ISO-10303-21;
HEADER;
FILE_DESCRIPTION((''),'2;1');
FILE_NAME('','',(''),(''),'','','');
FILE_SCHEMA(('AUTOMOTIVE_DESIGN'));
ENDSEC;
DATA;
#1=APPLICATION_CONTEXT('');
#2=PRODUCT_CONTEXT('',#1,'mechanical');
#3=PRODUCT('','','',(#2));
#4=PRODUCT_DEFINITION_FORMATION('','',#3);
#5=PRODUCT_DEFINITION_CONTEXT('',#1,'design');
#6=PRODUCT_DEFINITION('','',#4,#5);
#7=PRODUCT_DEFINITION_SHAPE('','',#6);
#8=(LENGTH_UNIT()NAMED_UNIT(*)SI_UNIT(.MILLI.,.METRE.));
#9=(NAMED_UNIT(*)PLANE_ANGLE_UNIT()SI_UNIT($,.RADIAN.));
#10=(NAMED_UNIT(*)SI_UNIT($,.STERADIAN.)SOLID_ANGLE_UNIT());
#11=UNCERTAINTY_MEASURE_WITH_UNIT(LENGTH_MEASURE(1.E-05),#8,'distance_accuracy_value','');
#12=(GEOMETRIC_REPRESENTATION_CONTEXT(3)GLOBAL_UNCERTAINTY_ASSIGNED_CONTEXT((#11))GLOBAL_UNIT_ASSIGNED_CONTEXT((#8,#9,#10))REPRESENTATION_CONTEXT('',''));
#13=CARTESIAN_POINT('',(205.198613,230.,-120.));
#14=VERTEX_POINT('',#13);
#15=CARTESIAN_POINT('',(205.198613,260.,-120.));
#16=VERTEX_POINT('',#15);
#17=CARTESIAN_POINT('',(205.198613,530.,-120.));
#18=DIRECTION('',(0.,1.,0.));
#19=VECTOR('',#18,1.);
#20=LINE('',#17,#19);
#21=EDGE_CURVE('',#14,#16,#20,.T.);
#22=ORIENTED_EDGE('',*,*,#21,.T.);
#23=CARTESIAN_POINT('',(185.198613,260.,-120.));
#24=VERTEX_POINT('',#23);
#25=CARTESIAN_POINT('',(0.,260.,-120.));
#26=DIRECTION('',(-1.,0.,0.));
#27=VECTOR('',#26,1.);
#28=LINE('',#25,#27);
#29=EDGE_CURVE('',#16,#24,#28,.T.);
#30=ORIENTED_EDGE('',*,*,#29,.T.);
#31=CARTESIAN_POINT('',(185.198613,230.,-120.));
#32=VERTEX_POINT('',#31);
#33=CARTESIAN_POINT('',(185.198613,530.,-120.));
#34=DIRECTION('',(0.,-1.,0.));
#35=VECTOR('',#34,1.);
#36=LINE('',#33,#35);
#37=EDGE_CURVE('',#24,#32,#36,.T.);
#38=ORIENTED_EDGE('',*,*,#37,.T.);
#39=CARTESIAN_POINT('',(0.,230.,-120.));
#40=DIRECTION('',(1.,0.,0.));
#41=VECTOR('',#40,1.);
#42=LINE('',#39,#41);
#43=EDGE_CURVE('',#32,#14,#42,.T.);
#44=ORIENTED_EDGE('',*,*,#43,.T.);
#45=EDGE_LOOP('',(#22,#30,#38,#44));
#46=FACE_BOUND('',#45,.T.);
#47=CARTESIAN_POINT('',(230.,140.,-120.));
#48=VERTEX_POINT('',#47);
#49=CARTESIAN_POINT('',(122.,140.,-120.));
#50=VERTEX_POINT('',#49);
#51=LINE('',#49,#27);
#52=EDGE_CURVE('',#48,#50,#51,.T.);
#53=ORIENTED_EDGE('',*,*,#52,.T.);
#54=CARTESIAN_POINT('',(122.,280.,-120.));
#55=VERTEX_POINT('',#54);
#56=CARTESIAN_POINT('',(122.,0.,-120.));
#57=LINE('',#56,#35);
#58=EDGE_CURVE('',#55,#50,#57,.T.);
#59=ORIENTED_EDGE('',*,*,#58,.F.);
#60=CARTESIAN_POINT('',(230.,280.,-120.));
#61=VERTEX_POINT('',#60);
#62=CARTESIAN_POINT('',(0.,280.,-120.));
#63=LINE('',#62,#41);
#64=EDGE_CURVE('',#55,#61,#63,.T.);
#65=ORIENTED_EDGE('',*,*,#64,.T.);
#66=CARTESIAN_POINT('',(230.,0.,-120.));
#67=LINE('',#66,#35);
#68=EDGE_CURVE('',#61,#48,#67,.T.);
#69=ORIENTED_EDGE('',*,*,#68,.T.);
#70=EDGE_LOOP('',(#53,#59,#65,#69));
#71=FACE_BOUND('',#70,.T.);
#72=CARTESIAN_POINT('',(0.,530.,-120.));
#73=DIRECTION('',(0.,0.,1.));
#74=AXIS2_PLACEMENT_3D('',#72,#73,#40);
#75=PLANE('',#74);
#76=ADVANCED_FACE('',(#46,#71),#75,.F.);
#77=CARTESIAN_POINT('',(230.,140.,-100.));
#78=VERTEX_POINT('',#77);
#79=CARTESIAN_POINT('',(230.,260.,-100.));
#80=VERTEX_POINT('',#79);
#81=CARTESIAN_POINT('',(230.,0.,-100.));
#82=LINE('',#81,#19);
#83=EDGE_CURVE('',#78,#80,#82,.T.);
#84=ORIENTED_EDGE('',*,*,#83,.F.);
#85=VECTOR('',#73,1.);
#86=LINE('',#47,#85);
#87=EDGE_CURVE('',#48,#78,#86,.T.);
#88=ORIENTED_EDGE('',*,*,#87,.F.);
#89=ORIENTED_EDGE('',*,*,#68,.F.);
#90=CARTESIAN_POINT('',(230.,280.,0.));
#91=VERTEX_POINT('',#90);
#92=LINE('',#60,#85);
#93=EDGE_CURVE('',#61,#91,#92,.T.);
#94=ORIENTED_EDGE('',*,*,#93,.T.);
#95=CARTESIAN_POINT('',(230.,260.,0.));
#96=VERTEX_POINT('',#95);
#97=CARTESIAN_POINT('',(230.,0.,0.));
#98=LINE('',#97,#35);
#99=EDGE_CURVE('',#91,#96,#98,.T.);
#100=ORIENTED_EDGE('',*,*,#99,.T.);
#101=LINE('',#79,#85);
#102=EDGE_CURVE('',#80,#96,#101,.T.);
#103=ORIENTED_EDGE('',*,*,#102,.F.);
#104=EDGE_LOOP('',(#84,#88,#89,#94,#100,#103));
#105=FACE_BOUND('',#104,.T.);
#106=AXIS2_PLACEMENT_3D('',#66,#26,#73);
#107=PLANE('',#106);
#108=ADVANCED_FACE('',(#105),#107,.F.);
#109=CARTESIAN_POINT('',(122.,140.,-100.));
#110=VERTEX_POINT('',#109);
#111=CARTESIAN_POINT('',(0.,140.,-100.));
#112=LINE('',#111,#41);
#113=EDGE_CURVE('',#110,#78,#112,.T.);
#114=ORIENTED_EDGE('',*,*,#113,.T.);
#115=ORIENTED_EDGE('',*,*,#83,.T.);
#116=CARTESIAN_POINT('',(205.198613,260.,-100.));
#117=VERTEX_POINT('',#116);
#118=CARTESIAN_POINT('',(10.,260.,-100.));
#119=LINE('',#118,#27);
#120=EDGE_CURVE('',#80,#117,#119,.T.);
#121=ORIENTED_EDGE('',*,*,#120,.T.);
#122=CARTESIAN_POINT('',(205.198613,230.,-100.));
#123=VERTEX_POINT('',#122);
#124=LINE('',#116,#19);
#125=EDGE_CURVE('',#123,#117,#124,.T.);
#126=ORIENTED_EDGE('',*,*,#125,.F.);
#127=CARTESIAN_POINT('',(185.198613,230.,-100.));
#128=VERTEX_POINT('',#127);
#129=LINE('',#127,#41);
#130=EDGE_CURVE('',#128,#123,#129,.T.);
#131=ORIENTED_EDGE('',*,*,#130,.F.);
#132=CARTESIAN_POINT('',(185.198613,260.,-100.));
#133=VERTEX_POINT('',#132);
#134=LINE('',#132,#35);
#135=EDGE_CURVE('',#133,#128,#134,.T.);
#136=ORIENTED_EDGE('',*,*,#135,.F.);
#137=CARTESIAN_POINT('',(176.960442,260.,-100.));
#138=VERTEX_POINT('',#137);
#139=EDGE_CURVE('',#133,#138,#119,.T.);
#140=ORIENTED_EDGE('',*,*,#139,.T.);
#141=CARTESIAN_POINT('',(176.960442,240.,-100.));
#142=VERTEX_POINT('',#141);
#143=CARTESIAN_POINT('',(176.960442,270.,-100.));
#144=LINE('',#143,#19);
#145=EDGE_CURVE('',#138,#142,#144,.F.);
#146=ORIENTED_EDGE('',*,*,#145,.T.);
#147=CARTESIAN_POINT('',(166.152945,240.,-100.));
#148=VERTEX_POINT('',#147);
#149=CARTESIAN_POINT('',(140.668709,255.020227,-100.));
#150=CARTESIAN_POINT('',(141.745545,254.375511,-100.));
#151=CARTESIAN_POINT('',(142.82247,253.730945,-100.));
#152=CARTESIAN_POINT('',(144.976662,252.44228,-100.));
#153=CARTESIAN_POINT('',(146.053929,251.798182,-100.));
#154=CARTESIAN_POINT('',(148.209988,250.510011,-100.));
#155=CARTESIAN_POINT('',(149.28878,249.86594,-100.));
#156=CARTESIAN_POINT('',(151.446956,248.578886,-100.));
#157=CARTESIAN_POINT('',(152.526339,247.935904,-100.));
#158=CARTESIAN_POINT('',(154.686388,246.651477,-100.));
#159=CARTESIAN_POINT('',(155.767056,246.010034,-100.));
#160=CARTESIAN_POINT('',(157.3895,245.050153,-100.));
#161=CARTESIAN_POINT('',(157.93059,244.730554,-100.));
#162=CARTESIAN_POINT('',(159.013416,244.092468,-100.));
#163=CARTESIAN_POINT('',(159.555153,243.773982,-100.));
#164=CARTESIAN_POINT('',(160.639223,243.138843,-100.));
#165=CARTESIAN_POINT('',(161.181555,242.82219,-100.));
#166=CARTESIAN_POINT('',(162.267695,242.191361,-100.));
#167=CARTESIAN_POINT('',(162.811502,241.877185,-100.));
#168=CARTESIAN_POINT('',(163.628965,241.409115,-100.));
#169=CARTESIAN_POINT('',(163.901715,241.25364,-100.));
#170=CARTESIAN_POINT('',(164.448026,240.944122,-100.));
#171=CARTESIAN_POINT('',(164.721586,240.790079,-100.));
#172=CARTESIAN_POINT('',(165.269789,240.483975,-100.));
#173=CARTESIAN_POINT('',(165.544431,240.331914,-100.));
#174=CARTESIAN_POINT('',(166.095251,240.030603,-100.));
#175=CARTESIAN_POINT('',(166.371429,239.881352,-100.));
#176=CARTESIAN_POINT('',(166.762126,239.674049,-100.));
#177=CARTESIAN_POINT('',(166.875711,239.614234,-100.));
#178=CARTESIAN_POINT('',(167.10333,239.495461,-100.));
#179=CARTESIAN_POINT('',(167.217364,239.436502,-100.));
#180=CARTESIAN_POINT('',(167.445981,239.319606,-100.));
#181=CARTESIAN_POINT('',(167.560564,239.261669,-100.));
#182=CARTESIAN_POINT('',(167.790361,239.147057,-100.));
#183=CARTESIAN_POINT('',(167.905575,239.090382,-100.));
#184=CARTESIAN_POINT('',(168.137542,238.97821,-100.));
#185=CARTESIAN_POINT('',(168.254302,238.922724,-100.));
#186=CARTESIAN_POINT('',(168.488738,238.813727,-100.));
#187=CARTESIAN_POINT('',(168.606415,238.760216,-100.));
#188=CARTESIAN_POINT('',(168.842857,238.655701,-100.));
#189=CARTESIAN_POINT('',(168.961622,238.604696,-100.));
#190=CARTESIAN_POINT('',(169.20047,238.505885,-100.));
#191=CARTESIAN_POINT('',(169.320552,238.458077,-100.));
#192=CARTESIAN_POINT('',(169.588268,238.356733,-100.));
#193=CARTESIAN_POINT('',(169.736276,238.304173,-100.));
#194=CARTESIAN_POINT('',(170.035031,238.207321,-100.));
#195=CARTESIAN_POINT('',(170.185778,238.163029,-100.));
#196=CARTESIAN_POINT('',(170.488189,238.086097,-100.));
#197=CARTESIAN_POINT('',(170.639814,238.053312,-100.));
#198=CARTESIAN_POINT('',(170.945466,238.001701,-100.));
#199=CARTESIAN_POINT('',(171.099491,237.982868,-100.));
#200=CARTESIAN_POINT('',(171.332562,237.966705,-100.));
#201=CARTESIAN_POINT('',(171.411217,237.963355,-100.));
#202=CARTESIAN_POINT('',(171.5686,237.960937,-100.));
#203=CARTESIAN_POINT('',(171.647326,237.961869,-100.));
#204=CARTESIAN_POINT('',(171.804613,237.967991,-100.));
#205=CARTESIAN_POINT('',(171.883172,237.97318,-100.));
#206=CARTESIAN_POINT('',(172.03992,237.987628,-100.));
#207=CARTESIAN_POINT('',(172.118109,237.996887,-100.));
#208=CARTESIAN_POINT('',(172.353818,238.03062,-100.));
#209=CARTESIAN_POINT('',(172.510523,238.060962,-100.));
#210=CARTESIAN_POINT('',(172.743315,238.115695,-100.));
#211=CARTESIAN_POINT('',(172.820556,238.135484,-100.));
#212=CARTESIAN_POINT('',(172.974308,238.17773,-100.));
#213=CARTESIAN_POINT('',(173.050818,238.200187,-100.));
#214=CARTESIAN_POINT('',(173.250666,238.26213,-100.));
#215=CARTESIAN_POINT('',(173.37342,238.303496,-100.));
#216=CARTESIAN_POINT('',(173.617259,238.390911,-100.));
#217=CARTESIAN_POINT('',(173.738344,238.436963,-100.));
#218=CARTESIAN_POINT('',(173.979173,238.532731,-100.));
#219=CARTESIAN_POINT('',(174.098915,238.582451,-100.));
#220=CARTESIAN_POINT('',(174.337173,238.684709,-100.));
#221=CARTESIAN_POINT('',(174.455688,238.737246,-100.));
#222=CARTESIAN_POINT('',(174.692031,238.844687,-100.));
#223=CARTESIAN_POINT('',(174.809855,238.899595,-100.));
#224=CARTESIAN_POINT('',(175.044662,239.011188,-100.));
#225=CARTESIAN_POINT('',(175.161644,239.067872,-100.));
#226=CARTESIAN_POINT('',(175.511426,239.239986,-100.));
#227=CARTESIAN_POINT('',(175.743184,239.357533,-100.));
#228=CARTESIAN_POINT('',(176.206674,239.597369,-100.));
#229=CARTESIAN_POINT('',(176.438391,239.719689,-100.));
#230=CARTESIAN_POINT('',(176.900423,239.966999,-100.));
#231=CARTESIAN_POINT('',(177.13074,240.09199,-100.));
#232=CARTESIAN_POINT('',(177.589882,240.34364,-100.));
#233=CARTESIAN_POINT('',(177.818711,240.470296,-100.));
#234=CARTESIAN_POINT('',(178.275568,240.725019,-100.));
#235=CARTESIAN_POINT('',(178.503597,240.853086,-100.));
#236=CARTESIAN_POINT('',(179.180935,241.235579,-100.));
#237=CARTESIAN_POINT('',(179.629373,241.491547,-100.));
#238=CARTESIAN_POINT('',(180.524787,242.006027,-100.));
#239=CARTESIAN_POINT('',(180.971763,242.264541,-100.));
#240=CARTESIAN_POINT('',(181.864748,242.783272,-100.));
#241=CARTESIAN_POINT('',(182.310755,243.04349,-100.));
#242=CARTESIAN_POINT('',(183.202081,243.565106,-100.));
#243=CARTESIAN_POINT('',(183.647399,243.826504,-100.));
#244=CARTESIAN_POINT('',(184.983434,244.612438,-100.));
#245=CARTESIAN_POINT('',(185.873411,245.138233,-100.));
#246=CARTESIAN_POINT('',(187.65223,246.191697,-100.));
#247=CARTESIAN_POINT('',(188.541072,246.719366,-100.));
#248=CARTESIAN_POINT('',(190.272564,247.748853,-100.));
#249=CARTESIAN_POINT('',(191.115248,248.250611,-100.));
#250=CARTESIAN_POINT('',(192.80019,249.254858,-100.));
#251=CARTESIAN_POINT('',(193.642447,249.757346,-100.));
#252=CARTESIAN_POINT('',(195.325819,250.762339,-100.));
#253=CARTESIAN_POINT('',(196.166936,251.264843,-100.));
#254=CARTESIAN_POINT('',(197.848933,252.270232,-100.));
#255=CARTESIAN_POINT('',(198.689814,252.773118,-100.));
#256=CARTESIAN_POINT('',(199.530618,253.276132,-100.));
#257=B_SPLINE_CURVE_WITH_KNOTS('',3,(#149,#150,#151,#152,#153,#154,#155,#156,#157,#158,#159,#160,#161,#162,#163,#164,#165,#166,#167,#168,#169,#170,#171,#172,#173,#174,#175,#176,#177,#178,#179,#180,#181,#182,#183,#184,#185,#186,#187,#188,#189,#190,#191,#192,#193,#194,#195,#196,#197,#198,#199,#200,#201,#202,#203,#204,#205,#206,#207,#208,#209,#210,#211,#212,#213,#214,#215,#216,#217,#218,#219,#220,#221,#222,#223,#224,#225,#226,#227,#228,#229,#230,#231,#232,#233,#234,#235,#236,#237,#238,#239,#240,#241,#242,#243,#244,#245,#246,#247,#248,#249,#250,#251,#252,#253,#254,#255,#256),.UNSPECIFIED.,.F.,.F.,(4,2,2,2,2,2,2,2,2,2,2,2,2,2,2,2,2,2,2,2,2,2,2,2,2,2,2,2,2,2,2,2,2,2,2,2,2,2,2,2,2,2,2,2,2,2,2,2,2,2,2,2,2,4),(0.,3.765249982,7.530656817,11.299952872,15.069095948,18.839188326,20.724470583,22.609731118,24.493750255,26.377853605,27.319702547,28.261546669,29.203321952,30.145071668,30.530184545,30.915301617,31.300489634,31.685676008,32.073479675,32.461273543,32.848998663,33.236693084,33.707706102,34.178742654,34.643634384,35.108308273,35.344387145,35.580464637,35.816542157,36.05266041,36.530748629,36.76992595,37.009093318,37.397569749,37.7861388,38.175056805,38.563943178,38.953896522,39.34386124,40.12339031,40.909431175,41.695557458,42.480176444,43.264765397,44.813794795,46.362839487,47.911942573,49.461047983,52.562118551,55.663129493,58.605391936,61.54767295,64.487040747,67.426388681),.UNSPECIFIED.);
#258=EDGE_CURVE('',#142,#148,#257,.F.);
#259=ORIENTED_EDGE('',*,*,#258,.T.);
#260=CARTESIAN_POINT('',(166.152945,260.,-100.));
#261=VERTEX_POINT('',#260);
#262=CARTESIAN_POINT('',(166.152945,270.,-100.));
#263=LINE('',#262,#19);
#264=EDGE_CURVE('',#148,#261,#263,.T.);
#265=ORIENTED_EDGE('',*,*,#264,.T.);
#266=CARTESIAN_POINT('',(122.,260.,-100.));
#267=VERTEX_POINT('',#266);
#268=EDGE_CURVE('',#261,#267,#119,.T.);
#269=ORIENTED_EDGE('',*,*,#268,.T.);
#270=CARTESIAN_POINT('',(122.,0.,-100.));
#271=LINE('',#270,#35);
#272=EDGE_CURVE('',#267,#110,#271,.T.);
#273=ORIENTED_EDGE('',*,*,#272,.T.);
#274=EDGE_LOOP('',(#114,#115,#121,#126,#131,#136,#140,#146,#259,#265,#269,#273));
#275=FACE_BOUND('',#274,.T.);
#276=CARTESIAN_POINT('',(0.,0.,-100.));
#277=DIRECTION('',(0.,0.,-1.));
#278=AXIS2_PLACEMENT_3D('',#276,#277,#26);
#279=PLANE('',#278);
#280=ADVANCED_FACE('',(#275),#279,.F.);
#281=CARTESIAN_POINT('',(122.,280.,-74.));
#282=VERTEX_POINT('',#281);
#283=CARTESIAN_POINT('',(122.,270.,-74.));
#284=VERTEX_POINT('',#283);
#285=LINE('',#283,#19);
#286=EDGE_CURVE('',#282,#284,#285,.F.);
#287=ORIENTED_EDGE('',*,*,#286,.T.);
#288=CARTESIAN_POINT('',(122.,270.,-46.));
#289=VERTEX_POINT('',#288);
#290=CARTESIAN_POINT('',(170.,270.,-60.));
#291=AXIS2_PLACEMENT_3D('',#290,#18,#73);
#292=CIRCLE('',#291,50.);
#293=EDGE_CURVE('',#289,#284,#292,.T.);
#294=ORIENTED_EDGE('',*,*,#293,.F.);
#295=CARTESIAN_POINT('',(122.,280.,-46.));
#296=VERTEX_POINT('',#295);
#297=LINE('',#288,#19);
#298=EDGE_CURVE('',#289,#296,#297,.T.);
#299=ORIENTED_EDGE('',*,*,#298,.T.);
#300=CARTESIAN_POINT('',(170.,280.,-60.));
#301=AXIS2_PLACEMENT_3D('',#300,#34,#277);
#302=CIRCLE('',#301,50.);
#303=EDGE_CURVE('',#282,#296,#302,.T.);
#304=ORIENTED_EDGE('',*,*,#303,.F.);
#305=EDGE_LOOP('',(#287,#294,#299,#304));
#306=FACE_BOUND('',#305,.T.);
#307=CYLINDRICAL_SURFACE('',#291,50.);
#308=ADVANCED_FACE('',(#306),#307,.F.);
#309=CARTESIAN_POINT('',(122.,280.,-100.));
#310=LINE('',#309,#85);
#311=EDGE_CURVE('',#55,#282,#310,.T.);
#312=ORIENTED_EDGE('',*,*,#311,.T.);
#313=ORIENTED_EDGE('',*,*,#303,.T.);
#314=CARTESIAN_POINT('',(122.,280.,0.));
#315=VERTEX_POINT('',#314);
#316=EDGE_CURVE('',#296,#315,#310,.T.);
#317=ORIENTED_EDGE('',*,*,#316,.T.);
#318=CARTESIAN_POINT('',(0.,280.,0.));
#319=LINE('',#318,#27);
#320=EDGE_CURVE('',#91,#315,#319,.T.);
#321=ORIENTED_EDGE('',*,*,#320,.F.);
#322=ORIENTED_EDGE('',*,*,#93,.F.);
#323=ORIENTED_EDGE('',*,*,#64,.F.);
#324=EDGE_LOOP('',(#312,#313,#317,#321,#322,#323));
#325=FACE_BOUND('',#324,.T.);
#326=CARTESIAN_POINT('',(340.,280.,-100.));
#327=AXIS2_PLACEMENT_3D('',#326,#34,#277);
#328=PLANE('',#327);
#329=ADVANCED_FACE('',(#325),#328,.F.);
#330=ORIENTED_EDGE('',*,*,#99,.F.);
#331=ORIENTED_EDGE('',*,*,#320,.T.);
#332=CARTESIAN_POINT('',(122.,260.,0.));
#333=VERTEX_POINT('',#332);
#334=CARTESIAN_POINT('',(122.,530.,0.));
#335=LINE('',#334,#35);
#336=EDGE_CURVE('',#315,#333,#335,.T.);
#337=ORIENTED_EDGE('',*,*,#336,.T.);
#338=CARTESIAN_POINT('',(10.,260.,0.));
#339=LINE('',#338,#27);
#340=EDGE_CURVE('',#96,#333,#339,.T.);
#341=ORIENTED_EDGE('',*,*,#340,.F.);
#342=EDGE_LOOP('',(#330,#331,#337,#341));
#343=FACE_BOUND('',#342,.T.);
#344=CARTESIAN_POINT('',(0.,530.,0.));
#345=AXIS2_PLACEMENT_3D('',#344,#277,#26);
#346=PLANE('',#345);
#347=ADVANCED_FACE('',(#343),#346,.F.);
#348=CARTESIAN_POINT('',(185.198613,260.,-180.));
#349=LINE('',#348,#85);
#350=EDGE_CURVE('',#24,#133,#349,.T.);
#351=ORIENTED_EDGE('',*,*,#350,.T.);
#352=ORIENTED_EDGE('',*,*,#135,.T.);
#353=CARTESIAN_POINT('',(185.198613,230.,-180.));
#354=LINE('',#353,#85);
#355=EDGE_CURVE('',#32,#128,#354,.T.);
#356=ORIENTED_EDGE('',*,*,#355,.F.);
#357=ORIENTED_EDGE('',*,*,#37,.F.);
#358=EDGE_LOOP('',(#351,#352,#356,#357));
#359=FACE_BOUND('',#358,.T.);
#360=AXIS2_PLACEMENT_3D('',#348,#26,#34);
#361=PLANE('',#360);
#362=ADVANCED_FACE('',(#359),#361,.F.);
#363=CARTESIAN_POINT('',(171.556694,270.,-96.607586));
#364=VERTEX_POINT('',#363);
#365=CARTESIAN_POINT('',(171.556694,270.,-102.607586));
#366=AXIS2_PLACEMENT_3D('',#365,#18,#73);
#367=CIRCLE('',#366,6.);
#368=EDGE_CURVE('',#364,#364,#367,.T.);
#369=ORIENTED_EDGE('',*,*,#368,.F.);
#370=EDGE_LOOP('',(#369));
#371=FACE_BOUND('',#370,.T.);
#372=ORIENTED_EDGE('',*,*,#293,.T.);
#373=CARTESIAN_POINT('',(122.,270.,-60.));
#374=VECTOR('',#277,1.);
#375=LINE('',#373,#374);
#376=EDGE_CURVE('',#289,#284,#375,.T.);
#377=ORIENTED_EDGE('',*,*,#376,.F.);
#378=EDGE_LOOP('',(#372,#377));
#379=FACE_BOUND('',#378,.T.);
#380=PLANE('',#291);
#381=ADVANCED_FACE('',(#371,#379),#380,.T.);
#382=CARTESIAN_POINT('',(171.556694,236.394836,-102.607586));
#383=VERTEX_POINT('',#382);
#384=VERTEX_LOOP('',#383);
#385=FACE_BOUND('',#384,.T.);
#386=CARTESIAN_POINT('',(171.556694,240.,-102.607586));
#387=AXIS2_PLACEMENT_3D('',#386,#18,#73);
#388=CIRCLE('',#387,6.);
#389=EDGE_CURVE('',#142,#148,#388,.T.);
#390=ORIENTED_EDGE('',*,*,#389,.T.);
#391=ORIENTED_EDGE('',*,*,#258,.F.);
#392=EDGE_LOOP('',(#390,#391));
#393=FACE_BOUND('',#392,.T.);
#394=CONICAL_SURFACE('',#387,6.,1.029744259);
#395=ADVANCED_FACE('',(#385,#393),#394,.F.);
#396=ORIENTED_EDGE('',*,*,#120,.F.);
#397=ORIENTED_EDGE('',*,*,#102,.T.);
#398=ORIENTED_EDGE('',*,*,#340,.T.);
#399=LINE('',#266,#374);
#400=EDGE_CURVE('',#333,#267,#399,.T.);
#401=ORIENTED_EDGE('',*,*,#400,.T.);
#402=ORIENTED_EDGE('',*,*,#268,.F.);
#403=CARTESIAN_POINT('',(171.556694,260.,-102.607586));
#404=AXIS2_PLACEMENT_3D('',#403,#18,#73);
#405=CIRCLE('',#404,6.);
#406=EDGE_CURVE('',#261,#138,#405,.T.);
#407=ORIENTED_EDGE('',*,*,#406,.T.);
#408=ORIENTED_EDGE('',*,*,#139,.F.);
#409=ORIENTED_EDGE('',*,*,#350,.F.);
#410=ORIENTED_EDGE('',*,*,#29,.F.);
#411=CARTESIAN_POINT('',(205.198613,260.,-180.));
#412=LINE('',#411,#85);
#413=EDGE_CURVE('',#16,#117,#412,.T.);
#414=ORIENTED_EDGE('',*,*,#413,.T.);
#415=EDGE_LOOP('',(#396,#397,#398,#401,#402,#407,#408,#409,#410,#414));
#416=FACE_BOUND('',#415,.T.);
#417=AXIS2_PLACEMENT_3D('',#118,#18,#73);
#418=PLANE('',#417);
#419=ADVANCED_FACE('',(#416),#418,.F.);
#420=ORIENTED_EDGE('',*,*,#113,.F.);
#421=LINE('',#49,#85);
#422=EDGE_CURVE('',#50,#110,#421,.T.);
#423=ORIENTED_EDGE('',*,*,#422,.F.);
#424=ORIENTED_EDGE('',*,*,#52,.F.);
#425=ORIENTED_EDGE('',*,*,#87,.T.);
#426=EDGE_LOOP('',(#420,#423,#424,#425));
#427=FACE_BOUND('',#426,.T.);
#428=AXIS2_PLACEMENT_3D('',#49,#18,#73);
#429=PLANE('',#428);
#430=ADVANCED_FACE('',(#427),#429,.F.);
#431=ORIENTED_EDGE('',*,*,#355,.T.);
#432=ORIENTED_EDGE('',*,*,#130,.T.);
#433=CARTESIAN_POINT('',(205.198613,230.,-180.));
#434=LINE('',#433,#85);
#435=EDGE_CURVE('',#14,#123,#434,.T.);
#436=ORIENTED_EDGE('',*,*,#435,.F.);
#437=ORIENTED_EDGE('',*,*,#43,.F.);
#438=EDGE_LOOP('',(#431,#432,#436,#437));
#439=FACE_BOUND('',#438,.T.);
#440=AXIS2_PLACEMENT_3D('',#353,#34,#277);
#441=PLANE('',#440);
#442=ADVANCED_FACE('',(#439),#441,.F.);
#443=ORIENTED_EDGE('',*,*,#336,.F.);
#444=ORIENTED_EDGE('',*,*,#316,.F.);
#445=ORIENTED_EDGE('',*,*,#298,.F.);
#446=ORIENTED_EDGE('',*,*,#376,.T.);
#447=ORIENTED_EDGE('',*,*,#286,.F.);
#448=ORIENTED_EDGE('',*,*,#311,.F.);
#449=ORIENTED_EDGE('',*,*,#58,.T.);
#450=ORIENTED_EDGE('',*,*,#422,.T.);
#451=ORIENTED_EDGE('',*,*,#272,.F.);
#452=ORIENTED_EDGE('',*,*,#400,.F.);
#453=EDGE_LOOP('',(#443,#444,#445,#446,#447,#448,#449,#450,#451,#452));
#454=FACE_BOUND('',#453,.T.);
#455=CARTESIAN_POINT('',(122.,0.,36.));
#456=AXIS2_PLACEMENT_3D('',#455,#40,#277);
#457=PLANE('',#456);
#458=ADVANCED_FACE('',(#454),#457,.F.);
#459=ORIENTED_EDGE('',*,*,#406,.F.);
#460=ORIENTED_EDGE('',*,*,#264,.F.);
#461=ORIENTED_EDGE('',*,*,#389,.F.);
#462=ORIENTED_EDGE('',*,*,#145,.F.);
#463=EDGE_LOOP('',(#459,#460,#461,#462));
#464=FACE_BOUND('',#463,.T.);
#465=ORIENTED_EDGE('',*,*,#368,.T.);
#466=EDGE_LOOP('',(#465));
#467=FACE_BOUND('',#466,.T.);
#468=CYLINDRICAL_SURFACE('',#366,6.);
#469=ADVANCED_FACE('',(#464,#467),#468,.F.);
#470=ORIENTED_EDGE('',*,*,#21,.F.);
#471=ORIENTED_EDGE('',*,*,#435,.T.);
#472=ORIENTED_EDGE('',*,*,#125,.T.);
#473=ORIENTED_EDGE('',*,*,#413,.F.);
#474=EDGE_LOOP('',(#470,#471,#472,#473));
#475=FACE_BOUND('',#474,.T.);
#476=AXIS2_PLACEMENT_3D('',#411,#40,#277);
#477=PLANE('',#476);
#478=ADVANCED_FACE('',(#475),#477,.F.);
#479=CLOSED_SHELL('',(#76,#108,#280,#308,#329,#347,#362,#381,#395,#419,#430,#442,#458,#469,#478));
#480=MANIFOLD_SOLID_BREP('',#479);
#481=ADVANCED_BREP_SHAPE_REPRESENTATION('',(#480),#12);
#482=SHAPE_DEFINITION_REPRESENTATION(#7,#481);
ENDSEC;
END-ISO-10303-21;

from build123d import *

# Parameters (mm, degrees)
SKETCH1_W                      = 670
SKETCH1_H                      = 120
BOSS_EXTRUDE1_DEPTH            = 530
SKETCH2_W                      = 100
SKETCH2_H                      = 200
SKETCH2_W_2                    = 650
SKETCH2_H_2                    = 250
CUT_EXTRUDE1_DEPTH             = 100
SKETCH3_R                      = 50
CUT_EXTRUDE2_DEPTH             = 260
F_12_0_12_DIAMETER_HOLE2_D     = 12
F_12_0_12_DIAMETER_HOLE2_DEPTH = 30
F_12_0_12_DIAMETER_HOLE2_TIP   = 3.605163714
SKETCH8_W                      = 650
SKETCH8_H                      = 50
BOSS_EXTRUDE2_DEPTH            = 5
SKETCH9_W                      = 10
SKETCH9_H                      = 250
CUT_EXTRUDE3_DEPTH             = 717
CUT_EXTRUDE4_DEPTH             = 5
SKETCH11_W                     = 10
SKETCH11_H                     = 100
BOSS_EXTRUDE3_DEPTH            = 78
BOSS_EXTRUDE3_2_DEPTH          = 78
BOSS_EXTRUDE3_3_DEPTH          = 78
SKETCH12_W                     = 20
SKETCH12_H                     = 30
CUT_EXTRUDE5_DEPTH             = 80
SKETCH15_W                     = 30
SKETCH15_H                     = 23.536156656
SKETCH15_H_2                   = 28.986603691
CUT_EXTRUDE7_DEPTH             = 35
SHELL1_T                       = -3
SKETCH16_W                     = 14
SKETCH16_H                     = 14
CUT_EXTRUDE8_DEPTH             = 35
SKETCH17_W                     = 5.729882812
SKETCH17_H                     = 17.428393554
SKETCH17_W_2                   = 13.369726562
SKETCH17_H_2                   = 3.342431641
BOSS_EXTRUDE4_DEPTH            = 5
CUT_EXTRUDE10_DEPTH            = 863.670273187
CUT_EXTRUDE10_DEPTH_BACK       = 863.670273187
SKETCH18_W                     = 670
SKETCH18_H                     = 250
CUT_EXTRUDE12_DEPTH            = 734.007503372
CUT_EXTRUDE12_DEPTH_BACK       = 734.007503372
SKETCH19_W                     = 440
SKETCH19_H                     = 280
SKETCH20_W                     = 210.918945895
SKETCH20_H                     = 296.400973443
CUT_EXTRUDE14_DEPTH            = 156
CUT_EXTRUDE15_DEPTH            = 376.898922584
CUT_EXTRUDE15_DEPTH_BACK       = 376.898922584
SKETCH21_W                     = 108
SKETCH21_H                     = 140


with BuildPart() as part:
    # Sketch1 → Boss-Extrude1 (new body)
    with BuildSketch(Plane(origin=(0, 0, 0), x_dir=(1, 0, 0), z_dir=(0, 1, 0))):
        with Locations((335, 60)):
            Rectangle(SKETCH1_W, SKETCH1_H)
    extrude(amount=BOSS_EXTRUDE1_DEPTH)

    # Sketch2 → Cut-Extrude1 (cut)
    with BuildSketch(Plane.XY):
        with Locations((60, 380)):
            Rectangle(SKETCH2_W, SKETCH2_H)
        with Locations((170, 380)):
            Rectangle(SKETCH2_W, SKETCH2_H)
        with Locations((280, 380)):
            Rectangle(SKETCH2_W, SKETCH2_H)
        with Locations((390, 380)):
            Rectangle(SKETCH2_W, SKETCH2_H)
        with Locations((500, 380)):
            Rectangle(SKETCH2_W, SKETCH2_H)
        with Locations((610, 380)):
            Rectangle(SKETCH2_W, SKETCH2_H)
        with Locations((335, 135)):
            Rectangle(SKETCH2_W_2, SKETCH2_H_2)
    extrude(amount=-CUT_EXTRUDE1_DEPTH, mode=Mode.SUBTRACT)

    # Sketch3 → Cut-Extrude2 (cut)
    with BuildSketch(Plane(origin=(0, 530, 0), x_dir=(1, 0, 0), z_dir=(0, 1, 0))):
        with Locations(Location((60, 60, 0), (0, 0, 270))):
            Circle(SKETCH3_R)
        with Locations(Location((170, 60, 0), (0, 0, 270))):
            Circle(SKETCH3_R)
        with Locations(Location((280, 60, 0), (0, 0, 270))):
            Circle(SKETCH3_R)
        with Locations(Location((390, 60, 0), (0, 0, 270))):
            Circle(SKETCH3_R)
        with Locations(Location((500, 60, 0), (0, 0, 270))):
            Circle(SKETCH3_R)
        with Locations(Location((610, 60, 0), (0, 0, 270))):
            Circle(SKETCH3_R)
    extrude(amount=-CUT_EXTRUDE2_DEPTH, mode=Mode.SUBTRACT)

    # Ø12.0 (12) Diameter Hole2
    with Locations(Plane(origin=(59.704642413, 270, -102.411697903), x_dir=(0, 0, 1), z_dir=(0, 1, 0))):
        with Locations((0, 0), (-0.195888006, 111.8520513), (0.014838595, 221.167624818), (-0.341843303, 331.364008353), (0.657723149, 441.008646429), (1.288998006, 549.811854685)):
            Hole(F_12_0_12_DIAMETER_HOLE2_D / 2, depth=F_12_0_12_DIAMETER_HOLE2_DEPTH)
            with Locations((0, 0, -(F_12_0_12_DIAMETER_HOLE2_DEPTH + F_12_0_12_DIAMETER_HOLE2_TIP / 2))):  # 118° drill point
                Cone(0, F_12_0_12_DIAMETER_HOLE2_D / 2, F_12_0_12_DIAMETER_HOLE2_TIP, mode=Mode.SUBTRACT)

    # Sketch8 → Boss-Extrude2 (add)
    with BuildSketch(Plane.XY):
        with Locations((335, 305)):
            Rectangle(SKETCH8_W, SKETCH8_H)
    extrude(amount=-BOSS_EXTRUDE2_DEPTH)

    # Sketch9 → Cut-Extrude3 (cut)
    with BuildSketch(Plane(origin=(670, 0, 0), x_dir=(0, 0, -1), z_dir=(1, 0, 0))):
        with Locations((15, 135)):
            Rectangle(SKETCH9_W, SKETCH9_H)
    extrude(amount=-CUT_EXTRUDE3_DEPTH, mode=Mode.SUBTRACT)

    # Sketch10 → Cut-Extrude4 (cut)
    with BuildSketch(Plane(origin=(0, 10, 0), x_dir=(1, 0, 0), z_dir=(0, 1, 0))):
        Polygon((365, 61.943560596), (350, 87.924322709), (320, 87.924322709), (305, 61.943560596), (320, 35.962798482), (350, 35.962798482), align=None)
    extrude(amount=-CUT_EXTRUDE4_DEPTH, mode=Mode.SUBTRACT)

    # Sketch12 → Cut-Extrude5 (cut)
    with BuildSketch(Plane.XY.offset(-100)):
        with Locations((85.198613037, 245)):
            Rectangle(SKETCH12_W, SKETCH12_H)
        with Locations((195.198613037, 245)):
            Rectangle(SKETCH12_W, SKETCH12_H)
        with Locations((305.198613037, 245)):
            Rectangle(SKETCH12_W, SKETCH12_H)
        with Locations((415.198613037, 245)):
            Rectangle(SKETCH12_W, SKETCH12_H)
        with Locations((525.198613037, 245)):
            Rectangle(SKETCH12_W, SKETCH12_H)
        with Locations((635.198613037, 245)):
            Rectangle(SKETCH12_W, SKETCH12_H)
    extrude(amount=-CUT_EXTRUDE5_DEPTH, mode=Mode.SUBTRACT)

    # Sketch17 → Boss-Extrude4 (add)
    # profile 1 of 9: a face of its own
    with BuildSketch(Plane.XY):
        with BuildLine():
            Line((527.508830928, 289.835452458), (527.508830928, 307.263846012))
            Line((527.508830928, 307.263846012), (534.861434459, 307.263846012))
            add(Edge.make_bspline(
                [(534.861434459, 307.263846012), (535.181337774, 307.258256848), (535.803061116, 307.24739446), (536.703508491, 307.139069344), (537.544992916, 306.975202489), (538.325061607, 306.737496792), (539.040841948, 306.426020155), (539.698044515, 306.051894954), (540.290333057, 305.605079277), (540.822348212, 305.090232636), (541.284521701, 304.502523111), (541.692171296, 303.852565801), (542.030284458, 303.129762281), (542.309377095, 302.341316546), (542.5243908, 301.484161689), (542.679660381, 300.560045938), (542.773357357, 299.567500804), (542.783368073, 298.883107022), (542.788518428, 298.530997273)],
                knots=[0, 0, 0, 0, 1.135059408, 2.20595691, 3.214417064, 4.174978569, 5.094187092, 5.980001006, 6.853065862, 7.720814779, 8.600404634, 9.50058483, 10.438414914, 11.426825708, 12.465239141, 13.571113463, 14.750376389, 16, 16, 16, 16], degree=3))
            add(Edge.make_bspline(
                [(542.788518428, 298.530997273), (542.781740751, 298.180151665), (542.768592871, 297.499553336), (542.676885992, 296.511518461), (542.516733301, 295.591080531), (542.296748778, 294.736450427), (542.003051046, 293.953120444), (541.654236167, 293.233205539), (541.233025793, 292.585291498), (540.753136904, 292.000029304), (540.204772188, 291.484681411), (539.587651059, 291.044279297), (538.910779309, 290.668464036), (538.169670382, 290.361903209), (537.364073889, 290.124869172), (536.495133477, 289.954199984), (535.562644449, 289.853487388), (534.920131033, 289.841584621), (534.58911581, 289.835452458)],
                knots=[0, 0, 0, 0, 1.228418252, 2.382983832, 3.470276728, 4.496757894, 5.468023682, 6.394867725, 7.292157164, 8.167372942, 9.039072913, 9.918728341, 10.815246345, 11.744296628, 12.720973084, 13.750736166, 14.841206188, 16, 16, 16, 16], degree=3))
            Line((534.58911581, 289.835452458), (527.508830928, 289.835452458))
        make_face()
        with BuildLine():
            Line((533.238713741, 291.745413395), (534.048208904, 291.745413395))
            add(Edge.make_bspline(
                [(534.048208904, 291.745413395), (534.172894012, 291.749291978), (534.413033311, 291.756761998), (534.758676231, 291.825976613), (535.075745017, 291.938271137), (535.365749176, 292.094802589), (535.623404602, 292.300450923), (535.848862806, 292.551404902), (536.04776914, 292.844737637), (536.217685755, 293.190205032), (536.364284647, 293.596533622), (536.481764702, 294.076367921), (536.592118304, 294.630928744), (536.673672739, 295.265507643), (536.740044562, 295.978448886), (536.788346679, 296.768428292), (536.812018936, 297.636801208), (536.817188964, 298.241258393), (536.819890499, 298.55711002)],
                knots=[0, 0, 0, 0, 0.728710832, 1.403472396, 2.052289494, 2.690292559, 3.321919393, 3.970736491, 4.656696891, 5.388631723, 6.217040872, 7.17856157, 8.275589967, 9.523440737, 10.918935818, 12.463926104, 14.152268318, 16, 16, 16, 16], degree=3))
            add(Edge.make_bspline(
                [(536.819890499, 298.55711002), (536.8171426, 298.871715251), (536.811863063, 299.476166083), (536.7886758, 300.343334385), (536.739579947, 301.133216935), (536.674703848, 301.843934916), (536.589660404, 302.476324031), (536.488366458, 303.031681737), (536.362441588, 303.507627045), (536.222158727, 303.914921549), (536.050140993, 304.256514038), (535.858357073, 304.554097881), (535.62547107, 304.79746827), (535.36991257, 305.004888479), (535.079348843, 305.160875844), (534.761320266, 305.273944358), (534.414185903, 305.34216807), (534.172870641, 305.349893944), (534.048208904, 305.353885075)],
                knots=[0, 0, 0, 0, 1.842836665, 3.540640921, 5.080358154, 6.47765669, 7.719902824, 8.816971715, 9.781579111, 10.601733135, 11.334613876, 12.017393917, 12.666641099, 13.29908421, 13.937911793, 14.587567384, 15.270347425, 16, 16, 16, 16], degree=3))
            Line((534.048208904, 305.353885075), (533.238713741, 305.353885075))
            Line((533.238713741, 305.353885075), (533.238713741, 291.745413395))
        make_face(mode=Mode.SUBTRACT)
    # profile 2 of 9: a face of its own
    with BuildSketch(Plane.XY):
        with Locations((547.563420772, 298.549649235)):
            Rectangle(SKETCH17_W, SKETCH17_H)
    # profile 3 of 9: a face of its own
    with BuildSketch(Plane.XY):
        Polygon((564.514324092, 307.263846012), (564.514324092, 305.115139958), (558.545696163, 305.115139958), (558.545696163, 299.862747379), (563.559343624, 299.862747379), (563.559343624, 297.714041325), (558.545696163, 297.714041325), (558.545696163, 289.835452458), (552.81581335, 289.835452458), (552.81581335, 307.263846012), align=None)
    # profile 4 of 9: a face of its own
    with BuildSketch(Plane.XY):
        Polygon((577.645305538, 307.263846012), (577.645305538, 305.115139958), (571.676677608, 305.115139958), (571.676677608, 299.862747379), (576.690325069, 299.862747379), (576.690325069, 297.714041325), (571.676677608, 297.714041325), (571.676677608, 289.835452458), (565.946794795, 289.835452458), (565.946794795, 307.263846012), align=None)
    # profile 5 of 9: a face of its own
    with BuildSketch(Plane.XY):
        with Locations((584.330168819, 287.448001286)):
            Rectangle(SKETCH17_W_2, SKETCH17_H_2)
    # profile 6 of 9: a face of its own
    with BuildSketch(Plane.XY):
        with BuildLine():
            Line((605.578484249, 307.263846012), (605.578484249, 295.602639195))
            add(Edge.make_bspline(
                [(605.578484249, 295.602639195), (605.574209777, 295.35989389), (605.565919345, 294.889083964), (605.480877158, 294.20653885), (605.349958188, 293.569747554), (605.15926554, 292.978838165), (604.911867049, 292.436847071), (604.616163877, 291.936663973), (604.260702644, 291.487723021), (603.847299908, 291.08966617), (603.386881991, 290.731670113), (602.867295001, 290.425440037), (602.293741958, 290.168488385), (601.66690529, 289.960990771), (600.988052682, 289.797299786), (600.254912883, 289.679078851), (599.467035781, 289.60781007), (598.923618241, 289.60048219), (598.643684673, 289.59670734)],
                knots=[0, 0, 0, 0, 1.108173197, 2.149326602, 3.136215123, 4.073726706, 4.978516626, 5.852185058, 6.72141202, 7.584905625, 8.467554395, 9.379216169, 10.332422268, 11.332766067, 12.390653242, 13.518530507, 14.721707419, 16, 16, 16, 16], degree=3))
            add(Edge.make_bspline(
                [(598.643684673, 289.59670734), (598.373688491, 289.600411437), (597.851346557, 289.607577482), (597.093280473, 289.679448684), (596.387523889, 289.797736542), (595.733050135, 289.960122315), (595.130189942, 290.169220301), (594.579048171, 290.42623041), (594.078350789, 290.732835498), (593.633858028, 291.090104794), (593.234289459, 291.486851767), (592.899913678, 291.940746827), (592.609043638, 292.435866034), (592.375223767, 292.980322997), (592.191754821, 293.570441519), (592.063541006, 294.20666921), (591.983676196, 294.889343196), (591.974661767, 295.359932437), (591.970012569, 295.602639195)],
                knots=[0, 0, 0, 0, 1.258901956, 2.435505865, 3.547148904, 4.59359074, 5.576649289, 6.5183682, 7.424469602, 8.307507093, 9.172751023, 10.042627298, 10.928839176, 11.845659241, 12.799442865, 13.80597989, 14.868432463, 16, 16, 16, 16], degree=3))
            Line((591.970012569, 295.602639195), (591.970012569, 307.263846012))
            Line((591.970012569, 307.263846012), (597.699895381, 307.263846012))
            Line((597.699895381, 307.263846012), (597.699895381, 295.457153889))
            add(Edge.make_bspline(
                [(597.699895381, 295.457153889), (597.700816195, 295.287996189), (597.702584578, 294.963135903), (597.729908723, 294.499051493), (597.768241004, 294.079064133), (597.828226169, 293.705517832), (597.90066041, 293.377063412), (597.989882091, 293.09281535), (598.094998068, 292.852496478), (598.225239063, 292.654232043), (598.380826623, 292.495135011), (598.55368342, 292.353231761), (598.757556996, 292.238543846), (598.987648905, 292.146224908), (599.243380948, 292.070549638), (599.526120553, 292.020376099), (599.83553351, 291.990763905), (600.049971942, 291.986424568), (600.161954402, 291.984158512)],
                knots=[0, 0, 0, 0, 1.622370975, 3.115695595, 4.458049099, 5.666011203, 6.742434742, 7.681714947, 8.519814998, 9.250928664, 9.942747364, 10.646898194, 11.389596108, 12.175933929, 13.021386247, 13.943159715, 14.925891993, 16, 16, 16, 16], degree=3))
            add(Edge.make_bspline(
                [(600.161954402, 291.984158512), (600.283927219, 291.987190593), (600.521124756, 291.993087005), (600.86597014, 292.03390861), (601.187714881, 292.103380086), (601.484890424, 292.205377303), (601.758665297, 292.332852529), (602.012761516, 292.484567923), (602.236391413, 292.674631152), (602.439076761, 292.888441291), (602.620738276, 293.128529789), (602.771757722, 293.399928575), (602.905501548, 293.697121508), (603.005823683, 294.025060118), (603.089837826, 294.379999499), (603.146989706, 294.763086929), (603.186210275, 295.174074524), (603.189394751, 295.457053988), (603.191033077, 295.602639195)],
                knots=[0, 0, 0, 0, 1.083870311, 2.107775948, 3.08105344, 4.003637981, 4.893545291, 5.761570557, 6.624657808, 7.49233129, 8.376387281, 9.291996285, 10.246843261, 11.267344133, 12.334180325, 13.486053461, 14.706643157, 16, 16, 16, 16], degree=3))
            Line((603.191033077, 295.602639195), (603.191033077, 307.263846012))
            Line((603.191033077, 307.263846012), (605.578484249, 307.263846012))
        make_face()
    # profile 7 of 9: a face of its own
    with BuildSketch(Plane.XY):
        with BuildLine():
            Line((619.731593227, 302.015183827), (616.739818477, 301.526502415))
            add(Edge.make_bspline(
                [(616.739818477, 301.526502415), (616.748849224, 301.670726223), (616.765660669, 301.939210177), (616.78429066, 302.312269209), (616.796668381, 302.625642376), (616.798628236, 302.814722915), (616.799504756, 302.899286839)],
                knots=[0, 0, 0, 0, 1.261802504, 2.348944521, 3.261585937, 4, 4, 4, 4], degree=3))
            add(Edge.make_bspline(
                [(616.799504756, 302.899286839), (616.798306068, 303.007660677), (616.795968139, 303.219033721), (616.750451916, 303.523894877), (616.694806916, 303.811547356), (616.604352699, 304.076787391), (616.488181329, 304.320314265), (616.348943917, 304.543955606), (616.184187178, 304.745078709), (615.995833421, 304.928129987), (615.778009957, 305.083200131), (615.536269472, 305.218702836), (615.269765326, 305.333844758), (614.978065514, 305.431346685), (614.660683072, 305.504624438), (614.319025281, 305.556776695), (613.952471696, 305.585673441), (613.699597795, 305.590260771), (613.568984889, 305.592630192)],
                knots=[0, 0, 0, 0, 1.079280541, 2.105035848, 3.067950317, 3.99715044, 4.889989748, 5.753421302, 6.617030865, 7.476358039, 8.364190572, 9.274590025, 10.235106994, 11.254473582, 12.337095886, 13.478601727, 14.697662529, 16, 16, 16, 16], degree=3))
            add(Edge.make_bspline(
                [(613.568984889, 305.592630192), (613.391954632, 305.58912286), (613.059112606, 305.582528579), (612.595688488, 305.495339748), (612.198743126, 305.361419257), (611.87165349, 305.163811893), (611.613188167, 304.909795747), (611.433841092, 304.593316589), (611.323009072, 304.224665915), (611.313400221, 303.959558324), (611.308367061, 303.820693775)],
                knots=[0, 0, 0, 0, 1.294917039, 2.43462794, 3.440028966, 4.347597256, 5.210608309, 6.06356377, 6.985685997, 8, 8, 8, 8], degree=3))
            add(Edge.make_bspline(
                [(611.308367061, 303.820693775), (611.317562032, 303.705133219), (611.336106628, 303.472068433), (611.47315858, 303.132808312), (611.695999602, 302.811560885), (612.009295906, 302.510664216), (612.404107796, 302.221967273), (612.884407504, 301.948533431), (613.450813789, 301.688189695), (613.862519081, 301.536023727), (614.080048656, 301.455624958)],
                knots=[0, 0, 0, 0, 0.716839541, 1.445735977, 2.240793036, 3.131329288, 4.131129903, 5.273471266, 6.559404876, 8, 8, 8, 8], degree=3))
            add(Edge.make_bspline(
                [(614.080048656, 301.455624958), (614.335934702, 301.364918412), (614.834564244, 301.188164095), (615.547657928, 300.88707802), (616.213068388, 300.5749594), (616.829579094, 300.246613346), (617.397833174, 299.90520698), (617.914851624, 299.544556457), (618.386199073, 299.173962102), (618.807001026, 298.783874588), (619.177995113, 298.378100064), (619.4958685, 297.952745357), (619.771807525, 297.51723103), (619.991113975, 297.061458502), (620.169645242, 296.594624218), (620.292698657, 296.11024444), (620.364288243, 295.609761088), (620.37516617, 295.270864226), (620.380681514, 295.099036213)],
                knots=[0, 0, 0, 0, 1.359488612, 2.649152603, 3.874964776, 5.039588756, 6.146130126, 7.193090393, 8.194917302, 9.146793662, 10.063845301, 10.944476293, 11.803344532, 12.641736646, 13.473440096, 14.302714936, 15.139439897, 16, 16, 16, 16], degree=3))
            add(Edge.make_bspline(
                [(620.380681514, 295.099036213), (620.374476075, 294.902306495), (620.362285176, 294.515820995), (620.280160209, 293.948630617), (620.138011896, 293.409496554), (619.938489338, 292.895972278), (619.681049879, 292.411946655), (619.366518754, 291.954381076), (618.996510229, 291.525099427), (618.5710008, 291.128381035), (618.102222518, 290.765302239), (617.587803957, 290.450854345), (617.034458515, 290.187092261), (616.444107988, 289.968993032), (615.81453624, 289.801373099), (615.145337453, 289.685291013), (614.438790193, 289.606619894), (613.954683001, 289.600062276), (613.70700941, 289.59670734)],
                knots=[0, 0, 0, 0, 0.972121714, 1.909782367, 2.824924061, 3.721832975, 4.62620438, 5.527836938, 6.46026819, 7.421000932, 8.398101015, 9.385579713, 10.394244048, 11.422703992, 12.491421888, 13.608778581, 14.776629625, 16, 16, 16, 16], degree=3))
            add(Edge.make_bspline(
                [(613.70700941, 289.59670734), (613.445745367, 289.599650312), (612.939893069, 289.605348413), (612.207608113, 289.66709241), (611.525297432, 289.760984454), (610.893395078, 289.899706116), (610.309273131, 290.072394336), (609.776099392, 290.288320955), (609.295310255, 290.547303481), (608.863217672, 290.843007892), (608.478306623, 291.175775461), (608.148120946, 291.551766865), (607.86942369, 291.967163224), (607.639947144, 292.421521488), (607.466477665, 292.917583541), (607.339164663, 293.449829748), (607.264537999, 294.021332449), (607.254747521, 294.414908557), (607.249700069, 294.617815586)],
                knots=[0, 0, 0, 0, 1.342201143, 2.598733168, 3.773451092, 4.878874364, 5.91991243, 6.900006476, 7.829142054, 8.72062616, 9.585588575, 10.436728592, 11.283829734, 12.149664931, 13.044964919, 13.977937424, 14.957531465, 16, 16, 16, 16], degree=3))
            add(Edge.make_bspline(
                [(607.249700069, 294.617815586), (607.250803815, 294.692425759), (607.253213998, 294.855347393), (607.260452266, 295.122772538), (607.275636683, 295.433682216), (607.29037174, 295.656130545), (607.298195171, 295.774237248)],
                knots=[0, 0, 0, 0, 0.773500207, 1.689044709, 2.77302154, 4, 4, 4, 4], degree=3))
            Line((607.298195171, 295.774237248), (610.36457777, 296.337526509))
            add(Edge.make_bspline(
                [(610.36457777, 296.337526509), (610.326952988, 296.136337493), (610.255606535, 295.754830366), (610.178678473, 295.21219969), (610.124206629, 294.733311493), (610.11767002, 294.435147371), (610.114641475, 294.297001835)],
                knots=[0, 0, 0, 0, 1.192988372, 2.262218769, 3.194850416, 4, 4, 4, 4], degree=3))
            add(Edge.make_bspline(
                [(610.114641475, 294.297001835), (610.116191817, 294.183708768), (610.119182568, 293.965156219), (610.159053378, 293.648552813), (610.215988606, 293.352999663), (610.302906772, 293.079707227), (610.411206928, 292.826307836), (610.544682453, 292.59538211), (610.704385489, 292.386485019), (610.887496571, 292.200099922), (611.094689168, 292.033628705), (611.327456494, 291.892756696), (611.58347653, 291.771733922), (611.864681562, 291.677479524), (612.167961721, 291.596080628), (612.497219749, 291.548235723), (612.849461228, 291.512043782), (613.092629543, 291.508500084), (613.218327999, 291.506668278)],
                knots=[0, 0, 0, 0, 1.135776692, 2.191015738, 3.19649269, 4.151244236, 5.061952528, 5.956281389, 6.819534407, 7.692823504, 8.571441916, 9.478554956, 10.416037156, 11.406231466, 12.450054172, 13.561596327, 14.739541482, 16, 16, 16, 16], degree=3))
            add(Edge.make_bspline(
                [(613.218327999, 291.506668278), (613.423996012, 291.510791273), (613.810619321, 291.518541853), (614.349272542, 291.616708407), (614.810575885, 291.768742445), (615.189785268, 291.991387532), (615.490778961, 292.278756613), (615.698005174, 292.637320004), (615.824813318, 293.05638326), (615.837728413, 293.355975238), (615.844524288, 293.513619419)],
                knots=[0, 0, 0, 0, 1.308765556, 2.460272085, 3.475015317, 4.388076298, 5.239673503, 6.095681635, 6.997954785, 8, 8, 8, 8], degree=3))
            add(Edge.make_bspline(
                [(615.844524288, 293.513619419), (615.833808824, 293.638242951), (615.811807312, 293.894126055), (615.644884004, 294.264515838), (615.382382362, 294.620631473), (615.016807277, 294.962984909), (614.551376589, 295.293471235), (613.986957743, 295.616730224), (613.322148235, 295.933112033), (612.83677959, 296.119639164), (612.580430889, 296.21815395)],
                knots=[0, 0, 0, 0, 0.667930748, 1.371427933, 2.146459016, 3.034714139, 4.04893387, 5.207327294, 6.525042705, 8, 8, 8, 8], degree=3))
            add(Edge.make_bspline(
                [(612.580430889, 296.21815395), (612.374354345, 296.29679374), (611.970646869, 296.450850434), (611.394079385, 296.713586304), (610.853066711, 296.987016804), (610.357486361, 297.288235735), (609.896382561, 297.599610528), (609.477036946, 297.932256792), (609.09841673, 298.284556341), (608.758710772, 298.653375077), (608.457302107, 299.038989264), (608.199448649, 299.444659231), (607.977533299, 299.866789834), (607.798609588, 300.308107488), (607.65975715, 300.767821241), (607.559616231, 301.244439392), (607.497905054, 301.739995674), (607.491630423, 302.075933546), (607.488445186, 302.246468159)],
                knots=[0, 0, 0, 0, 1.249558333, 2.447906163, 3.58867143, 4.682264114, 5.731748367, 6.739728761, 7.711906036, 8.659384707, 9.578321416, 10.481344598, 11.379544271, 12.277135726, 13.175418307, 14.097160112, 15.034047388, 16, 16, 16, 16], degree=3))
            add(Edge.make_bspline(
                [(607.488445186, 302.246468159), (607.49282555, 302.439538736), (607.501402184, 302.817565692), (607.587451154, 303.36980586), (607.719291893, 303.894921371), (607.910558542, 304.389343064), (608.156192894, 304.852853762), (608.453187669, 305.288766511), (608.804241719, 305.697593471), (609.213503754, 306.066686531), (609.657214714, 306.407618241), (610.14376173, 306.697651931), (610.658716537, 306.950861947), (611.210636666, 307.148827868), (611.791820619, 307.313252612), (612.408080529, 307.421140415), (613.056315391, 307.490701612), (613.499160755, 307.498567824), (613.725661373, 307.502591129)],
                knots=[0, 0, 0, 0, 1.01033566, 1.978209831, 2.919499157, 3.840961976, 4.746855014, 5.660740114, 6.597989116, 7.56120833, 8.541877795, 9.523498025, 10.522416858, 11.542172371, 12.589598349, 13.681636521, 14.814234488, 16, 16, 16, 16], degree=3))
            add(Edge.make_bspline(
                [(613.725661373, 307.502591129), (613.968269855, 307.498219033), (614.438190994, 307.489750488), (615.120391152, 307.426787419), (615.755073228, 307.319142339), (616.345153155, 307.171557286), (616.887304575, 306.977590666), (617.384933999, 306.742393454), (617.834452216, 306.46201507), (618.236961315, 306.139451502), (618.593086714, 305.773322851), (618.897467704, 305.361641069), (619.158701245, 304.909408454), (619.366684143, 304.412232174), (619.529870326, 303.873247147), (619.649133834, 303.29158184), (619.720420497, 302.667301443), (619.72779778, 302.236712324), (619.731593227, 302.015183827)],
                knots=[0, 0, 0, 0, 1.248314423, 2.417925914, 3.521398822, 4.558068205, 5.543720209, 6.479599284, 7.385061127, 8.263440163, 9.127722873, 10.00561236, 10.891325273, 11.808802823, 12.772251995, 13.784947978, 14.860405143, 16, 16, 16, 16], degree=3))
        make_face()
    # profile 8 of 9: a face of its own
    with BuildSketch(Plane.XY):
        Polygon((633.989153194, 307.263846012), (633.989153194, 305.115139958), (628.020525264, 305.115139958), (628.020525264, 300.340237614), (633.034172725, 300.340237614), (633.034172725, 298.191531559), (628.020525264, 298.191531559), (628.020525264, 291.984158512), (634.944133663, 291.984158512), (634.944133663, 289.835452458), (622.290642452, 289.835452458), (622.290642452, 307.263846012), align=None)
    # profile 9 of 9: a face of its own
    with BuildSketch(Plane.XY):
        with BuildLine():
            Line((636.376604366, 289.835452458), (636.376604366, 307.263846012))
            Line((636.376604366, 307.263846012), (643.990335369, 307.263846012))
            add(Edge.make_bspline(
                [(643.990335369, 307.263846012), (644.237946498, 307.261150834), (644.721600887, 307.25588639), (645.426490561, 307.189203683), (646.094808274, 307.090496236), (646.724915796, 306.949857504), (647.317873659, 306.767252686), (647.871119087, 306.542146), (648.390701058, 306.282329135), (648.864494846, 305.976472528), (649.295093616, 305.642889252), (649.669668547, 305.279483604), (649.990389523, 304.894749072), (650.250664962, 304.483256345), (650.454275633, 304.048690948), (650.59581384, 303.587791605), (650.684089268, 303.104102537), (650.695510601, 302.772834174), (650.701311397, 302.604585835)],
                knots=[0, 0, 0, 0, 1.303269877, 2.545653735, 3.724355284, 4.8584284, 5.941462088, 6.987020715, 8.000098032, 8.995332524, 9.951400474, 10.863507538, 11.737823931, 12.582415999, 13.420128714, 14.25671499, 15.114600608, 16, 16, 16, 16], degree=3))
            add(Edge.make_bspline(
                [(650.701311397, 302.604585835), (650.698282873, 302.472674957), (650.692382063, 302.215658276), (650.651041486, 301.838684287), (650.580643818, 301.480313933), (650.481036683, 301.139915259), (650.347814833, 300.820175594), (650.191279492, 300.517863507), (650.009772227, 300.230553342), (649.788675198, 299.970497982), (649.548268341, 299.722842359), (649.274558803, 299.497116911), (648.974487035, 299.288655528), (648.642526299, 299.104010513), (648.287619671, 298.928055749), (647.899038177, 298.784921972), (647.486819978, 298.644749395), (647.19793098, 298.577036306), (647.049257183, 298.54218845)],
                knots=[0, 0, 0, 0, 1.057156483, 2.059775939, 3.035078039, 3.981068617, 4.897189472, 5.80650904, 6.70770952, 7.613691521, 8.536886357, 9.470937334, 10.45233069, 11.461024139, 12.51295332, 13.623444893, 14.776929983, 16, 16, 16, 16], degree=3))
            add(Edge.make_bspline(
                [(647.049257183, 298.54218845), (647.19164695, 298.499279419), (647.467865022, 298.416041346), (647.856360945, 298.265600017), (648.211652989, 298.111536308), (648.524185739, 297.936781388), (648.807636894, 297.762122504), (649.047122259, 297.564301324), (649.255235567, 297.361673563), (649.425188343, 297.135464734), (649.570253643, 296.882344437), (649.694827156, 296.586596707), (649.815179167, 296.247423665), (649.917667348, 295.859098311), (650.004750555, 295.423699276), (650.088222437, 294.944027189), (650.153853601, 294.416024546), (650.187587341, 294.048412906), (650.2051692, 293.856815525)],
                knots=[0, 0, 0, 0, 1.149282524, 2.229462177, 3.219229774, 4.139917433, 4.995948464, 5.788695735, 6.536448429, 7.236319808, 7.968460079, 8.78645307, 9.713791991, 10.749194692, 11.887975363, 13.146018663, 14.512518948, 16, 16, 16, 16], degree=3))
            add(Edge.make_bspline(
                [(650.2051692, 293.856815525), (650.225980287, 293.627849833), (650.265975604, 293.187817268), (650.348933081, 292.554613589), (650.44386163, 291.974357025), (650.555874504, 291.44528724), (650.681301216, 290.967898855), (650.821280597, 290.540469593), (650.979920039, 290.165788217), (651.10484481, 289.941461656), (651.163880062, 289.835452458)],
                knots=[0, 0, 0, 0, 1.324580516, 2.545615266, 3.678710841, 4.711533017, 5.660403917, 6.521349952, 7.301239649, 8, 8, 8, 8], degree=3))
            Line((651.163880062, 289.835452458), (645.213904094, 289.835452458))
            add(Edge.make_bspline(
                [(645.213904094, 289.835452458), (645.12229736, 290.069847279), (644.935171241, 290.548648246), (644.7595281, 291.319414791), (644.64846922, 292.142514735), (644.635117598, 292.70994511), (644.628232479, 293.002555653)],
                knots=[0, 0, 0, 0, 0.930410518, 1.900560147, 2.917368081, 4, 4, 4, 4], degree=3))
            Line((644.628232479, 293.002555653), (644.605850124, 294.002300831))
            Line((644.605850124, 294.002300831), (644.579737377, 295.266903874))
            add(Edge.make_bspline(
                [(644.579737377, 295.266903874), (644.573694669, 295.477395004), (644.562357007, 295.872330118), (644.469348432, 296.426164013), (644.30178735, 296.894645884), (644.073222546, 297.287223005), (643.766741442, 297.590613479), (643.39104803, 297.804152917), (642.950456912, 297.93396284), (642.634664848, 297.946292392), (642.468335247, 297.952786442)],
                knots=[0, 0, 0, 0, 1.295300309, 2.430314163, 3.439929415, 4.342995669, 5.203512789, 6.060756153, 6.978588463, 8, 8, 8, 8], degree=3))
            Line((642.468335247, 297.952786442), (642.106487178, 297.952786442))
            Line((642.106487178, 297.952786442), (642.106487178, 289.835452458))
            Line((642.106487178, 289.835452458), (636.376604366, 289.835452458))
        make_face()
        with BuildLine():
            Line((642.106487178, 299.862747379), (642.617550945, 299.862747379))
            add(Edge.make_bspline(
                [(642.617550945, 299.862747379), (642.722054451, 299.865172716), (642.925280724, 299.869889229), (643.220054897, 299.898289891), (643.494111408, 299.951809873), (643.749840966, 300.021017819), (643.984372137, 300.114851792), (644.200147241, 300.225818296), (644.391160406, 300.362685327), (644.565327067, 300.516342321), (644.718148635, 300.691986294), (644.850351299, 300.889034217), (644.961199162, 301.106225057), (645.056078491, 301.342818683), (645.125883912, 301.600830857), (645.173262731, 301.879472914), (645.203404658, 302.177423605), (645.207875435, 302.383174491), (645.210173702, 302.488943669)],
                knots=[0, 0, 0, 0, 1.184986479, 2.304423995, 3.352332712, 4.347714965, 5.303263624, 6.211353909, 7.091434645, 7.960150225, 8.839440182, 9.723126897, 10.64371617, 11.599264829, 12.608232147, 13.667459739, 14.800924404, 16, 16, 16, 16], degree=3))
            add(Edge.make_bspline(
                [(645.210173702, 302.488943669), (645.207875435, 302.594712847), (645.203404658, 302.800463732), (645.173262731, 303.098414423), (645.125883912, 303.37705648), (645.056078491, 303.635068654), (644.961199162, 303.87166228), (644.850351299, 304.08885312), (644.718148635, 304.285901043), (644.565327067, 304.461545017), (644.391160406, 304.61520201), (644.200147241, 304.752069041), (643.984372137, 304.863035546), (643.749840966, 304.956869518), (643.494111408, 305.026077464), (643.220054897, 305.079597446), (642.925280724, 305.107998108), (642.722054451, 305.112714621), (642.617550945, 305.115139958)],
                knots=[0, 0, 0, 0, 1.199075596, 2.332540261, 3.391767853, 4.400735171, 5.35628383, 6.276873103, 7.160559818, 8.039849775, 8.908565355, 9.788646091, 10.696736376, 11.652285035, 12.647667288, 13.695576005, 14.815013521, 16, 16, 16, 16], degree=3))
            Line((642.617550945, 305.115139958), (642.106487178, 305.115139958))
            Line((642.106487178, 305.115139958), (642.106487178, 299.862747379))
        make_face(mode=Mode.SUBTRACT)
    extrude(amount=BOSS_EXTRUDE4_DEPTH)

    # Sketch18 → Cut-Extrude10 (cut, two sides: drawn at the far end of the back side and taken through both)
    with BuildSketch(Plane.XY.offset(-CUT_EXTRUDE10_DEPTH_BACK)):
        with Locations((335, 405)):
            Rectangle(SKETCH18_W, SKETCH18_H)
    extrude(amount=CUT_EXTRUDE10_DEPTH + CUT_EXTRUDE10_DEPTH_BACK, mode=Mode.SUBTRACT)

    # Sketch19 → Cut-Extrude12 (cut, two sides: drawn at the far end of the back side and taken through both)
    with BuildSketch(Plane.XY.offset(-100).offset(-CUT_EXTRUDE12_DEPTH_BACK)):
        with Locations((450, 140)):
            Rectangle(SKETCH19_W, SKETCH19_H)
    extrude(amount=CUT_EXTRUDE12_DEPTH + CUT_EXTRUDE12_DEPTH_BACK, mode=Mode.SUBTRACT)

    # Sketch20 → Cut-Extrude14 (cut)
    with BuildSketch(Plane(origin=(0, 0, -120), x_dir=(-1, 0, 0), z_dir=(0, 0, -1))):
        with Locations((-16.540527053, 148.200486721)):
            Rectangle(SKETCH20_W, SKETCH20_H)
    extrude(amount=-CUT_EXTRUDE14_DEPTH, mode=Mode.SUBTRACT)

    # Sketch21 → Cut-Extrude15 (cut, two sides: drawn at the far end of the back side and taken through both)
    with BuildSketch(Plane.XY.offset(-100).offset(-CUT_EXTRUDE15_DEPTH_BACK)):
        with Locations((176, 70)):
            Rectangle(SKETCH21_W, SKETCH21_H)
    extrude(amount=CUT_EXTRUDE15_DEPTH + CUT_EXTRUDE15_DEPTH_BACK, mode=Mode.SUBTRACT)


with BuildPart() as body_2:
    # Sketch11 → Boss-Extrude3 (new body)
    with BuildSketch(Plane.XY.offset(-100)):
        with Locations((255, 60)):
            Rectangle(SKETCH11_W, SKETCH11_H)
    extrude(amount=BOSS_EXTRUDE3_DEPTH)


with BuildPart() as body_3:
    # Sketch11 → Boss-Extrude3 2 (new body)
    with BuildSketch(Plane.XY.offset(-100)):
        with Locations((415, 60)):
            Rectangle(SKETCH11_W, SKETCH11_H)
    extrude(amount=BOSS_EXTRUDE3_2_DEPTH)


with BuildPart() as body_4:
    # Sketch11 → Boss-Extrude3 3 (new body)
    with BuildSketch(Plane.XY.offset(-100)):
        Polygon((25, 198.45686471), (325, 145.558770497), (325, 122.01775856), (345, 122.01775856), (345, 145.558770497), (645, 198.45686471), align=None)
    extrude(amount=BOSS_EXTRUDE3_3_DEPTH)

    # Sketch15 → Cut-Extrude7 (cut)
    with BuildSketch(Plane(origin=(345, 0, 0), x_dir=(0, 0, -1), z_dir=(1, 0, 0))):
        with Locations((35, 133.231921672)):
            Rectangle(SKETCH15_W, SKETCH15_H)
        with Locations((85, 130.506698154)):
            Rectangle(SKETCH15_W, SKETCH15_H_2)
    extrude(amount=-CUT_EXTRUDE7_DEPTH, mode=Mode.SUBTRACT)

    # Shell1
    shell1_openings = [body_4.faces().sort_by_distance(p)[0] for p in [
        (335, 198.45686471, -61),
    ]]
    offset(amount=SHELL1_T, openings=shell1_openings, kind=Kind.INTERSECTION)

    # Sketch16 → Cut-Extrude8 (cut)
    with BuildSketch(Plane.XZ.offset(-122.01775856)):
        with Locations((335, -60)):
            Rectangle(SKETCH16_W, SKETCH16_H)
    extrude(amount=-CUT_EXTRUDE8_DEPTH, mode=Mode.SUBTRACT)


solid = part.part
